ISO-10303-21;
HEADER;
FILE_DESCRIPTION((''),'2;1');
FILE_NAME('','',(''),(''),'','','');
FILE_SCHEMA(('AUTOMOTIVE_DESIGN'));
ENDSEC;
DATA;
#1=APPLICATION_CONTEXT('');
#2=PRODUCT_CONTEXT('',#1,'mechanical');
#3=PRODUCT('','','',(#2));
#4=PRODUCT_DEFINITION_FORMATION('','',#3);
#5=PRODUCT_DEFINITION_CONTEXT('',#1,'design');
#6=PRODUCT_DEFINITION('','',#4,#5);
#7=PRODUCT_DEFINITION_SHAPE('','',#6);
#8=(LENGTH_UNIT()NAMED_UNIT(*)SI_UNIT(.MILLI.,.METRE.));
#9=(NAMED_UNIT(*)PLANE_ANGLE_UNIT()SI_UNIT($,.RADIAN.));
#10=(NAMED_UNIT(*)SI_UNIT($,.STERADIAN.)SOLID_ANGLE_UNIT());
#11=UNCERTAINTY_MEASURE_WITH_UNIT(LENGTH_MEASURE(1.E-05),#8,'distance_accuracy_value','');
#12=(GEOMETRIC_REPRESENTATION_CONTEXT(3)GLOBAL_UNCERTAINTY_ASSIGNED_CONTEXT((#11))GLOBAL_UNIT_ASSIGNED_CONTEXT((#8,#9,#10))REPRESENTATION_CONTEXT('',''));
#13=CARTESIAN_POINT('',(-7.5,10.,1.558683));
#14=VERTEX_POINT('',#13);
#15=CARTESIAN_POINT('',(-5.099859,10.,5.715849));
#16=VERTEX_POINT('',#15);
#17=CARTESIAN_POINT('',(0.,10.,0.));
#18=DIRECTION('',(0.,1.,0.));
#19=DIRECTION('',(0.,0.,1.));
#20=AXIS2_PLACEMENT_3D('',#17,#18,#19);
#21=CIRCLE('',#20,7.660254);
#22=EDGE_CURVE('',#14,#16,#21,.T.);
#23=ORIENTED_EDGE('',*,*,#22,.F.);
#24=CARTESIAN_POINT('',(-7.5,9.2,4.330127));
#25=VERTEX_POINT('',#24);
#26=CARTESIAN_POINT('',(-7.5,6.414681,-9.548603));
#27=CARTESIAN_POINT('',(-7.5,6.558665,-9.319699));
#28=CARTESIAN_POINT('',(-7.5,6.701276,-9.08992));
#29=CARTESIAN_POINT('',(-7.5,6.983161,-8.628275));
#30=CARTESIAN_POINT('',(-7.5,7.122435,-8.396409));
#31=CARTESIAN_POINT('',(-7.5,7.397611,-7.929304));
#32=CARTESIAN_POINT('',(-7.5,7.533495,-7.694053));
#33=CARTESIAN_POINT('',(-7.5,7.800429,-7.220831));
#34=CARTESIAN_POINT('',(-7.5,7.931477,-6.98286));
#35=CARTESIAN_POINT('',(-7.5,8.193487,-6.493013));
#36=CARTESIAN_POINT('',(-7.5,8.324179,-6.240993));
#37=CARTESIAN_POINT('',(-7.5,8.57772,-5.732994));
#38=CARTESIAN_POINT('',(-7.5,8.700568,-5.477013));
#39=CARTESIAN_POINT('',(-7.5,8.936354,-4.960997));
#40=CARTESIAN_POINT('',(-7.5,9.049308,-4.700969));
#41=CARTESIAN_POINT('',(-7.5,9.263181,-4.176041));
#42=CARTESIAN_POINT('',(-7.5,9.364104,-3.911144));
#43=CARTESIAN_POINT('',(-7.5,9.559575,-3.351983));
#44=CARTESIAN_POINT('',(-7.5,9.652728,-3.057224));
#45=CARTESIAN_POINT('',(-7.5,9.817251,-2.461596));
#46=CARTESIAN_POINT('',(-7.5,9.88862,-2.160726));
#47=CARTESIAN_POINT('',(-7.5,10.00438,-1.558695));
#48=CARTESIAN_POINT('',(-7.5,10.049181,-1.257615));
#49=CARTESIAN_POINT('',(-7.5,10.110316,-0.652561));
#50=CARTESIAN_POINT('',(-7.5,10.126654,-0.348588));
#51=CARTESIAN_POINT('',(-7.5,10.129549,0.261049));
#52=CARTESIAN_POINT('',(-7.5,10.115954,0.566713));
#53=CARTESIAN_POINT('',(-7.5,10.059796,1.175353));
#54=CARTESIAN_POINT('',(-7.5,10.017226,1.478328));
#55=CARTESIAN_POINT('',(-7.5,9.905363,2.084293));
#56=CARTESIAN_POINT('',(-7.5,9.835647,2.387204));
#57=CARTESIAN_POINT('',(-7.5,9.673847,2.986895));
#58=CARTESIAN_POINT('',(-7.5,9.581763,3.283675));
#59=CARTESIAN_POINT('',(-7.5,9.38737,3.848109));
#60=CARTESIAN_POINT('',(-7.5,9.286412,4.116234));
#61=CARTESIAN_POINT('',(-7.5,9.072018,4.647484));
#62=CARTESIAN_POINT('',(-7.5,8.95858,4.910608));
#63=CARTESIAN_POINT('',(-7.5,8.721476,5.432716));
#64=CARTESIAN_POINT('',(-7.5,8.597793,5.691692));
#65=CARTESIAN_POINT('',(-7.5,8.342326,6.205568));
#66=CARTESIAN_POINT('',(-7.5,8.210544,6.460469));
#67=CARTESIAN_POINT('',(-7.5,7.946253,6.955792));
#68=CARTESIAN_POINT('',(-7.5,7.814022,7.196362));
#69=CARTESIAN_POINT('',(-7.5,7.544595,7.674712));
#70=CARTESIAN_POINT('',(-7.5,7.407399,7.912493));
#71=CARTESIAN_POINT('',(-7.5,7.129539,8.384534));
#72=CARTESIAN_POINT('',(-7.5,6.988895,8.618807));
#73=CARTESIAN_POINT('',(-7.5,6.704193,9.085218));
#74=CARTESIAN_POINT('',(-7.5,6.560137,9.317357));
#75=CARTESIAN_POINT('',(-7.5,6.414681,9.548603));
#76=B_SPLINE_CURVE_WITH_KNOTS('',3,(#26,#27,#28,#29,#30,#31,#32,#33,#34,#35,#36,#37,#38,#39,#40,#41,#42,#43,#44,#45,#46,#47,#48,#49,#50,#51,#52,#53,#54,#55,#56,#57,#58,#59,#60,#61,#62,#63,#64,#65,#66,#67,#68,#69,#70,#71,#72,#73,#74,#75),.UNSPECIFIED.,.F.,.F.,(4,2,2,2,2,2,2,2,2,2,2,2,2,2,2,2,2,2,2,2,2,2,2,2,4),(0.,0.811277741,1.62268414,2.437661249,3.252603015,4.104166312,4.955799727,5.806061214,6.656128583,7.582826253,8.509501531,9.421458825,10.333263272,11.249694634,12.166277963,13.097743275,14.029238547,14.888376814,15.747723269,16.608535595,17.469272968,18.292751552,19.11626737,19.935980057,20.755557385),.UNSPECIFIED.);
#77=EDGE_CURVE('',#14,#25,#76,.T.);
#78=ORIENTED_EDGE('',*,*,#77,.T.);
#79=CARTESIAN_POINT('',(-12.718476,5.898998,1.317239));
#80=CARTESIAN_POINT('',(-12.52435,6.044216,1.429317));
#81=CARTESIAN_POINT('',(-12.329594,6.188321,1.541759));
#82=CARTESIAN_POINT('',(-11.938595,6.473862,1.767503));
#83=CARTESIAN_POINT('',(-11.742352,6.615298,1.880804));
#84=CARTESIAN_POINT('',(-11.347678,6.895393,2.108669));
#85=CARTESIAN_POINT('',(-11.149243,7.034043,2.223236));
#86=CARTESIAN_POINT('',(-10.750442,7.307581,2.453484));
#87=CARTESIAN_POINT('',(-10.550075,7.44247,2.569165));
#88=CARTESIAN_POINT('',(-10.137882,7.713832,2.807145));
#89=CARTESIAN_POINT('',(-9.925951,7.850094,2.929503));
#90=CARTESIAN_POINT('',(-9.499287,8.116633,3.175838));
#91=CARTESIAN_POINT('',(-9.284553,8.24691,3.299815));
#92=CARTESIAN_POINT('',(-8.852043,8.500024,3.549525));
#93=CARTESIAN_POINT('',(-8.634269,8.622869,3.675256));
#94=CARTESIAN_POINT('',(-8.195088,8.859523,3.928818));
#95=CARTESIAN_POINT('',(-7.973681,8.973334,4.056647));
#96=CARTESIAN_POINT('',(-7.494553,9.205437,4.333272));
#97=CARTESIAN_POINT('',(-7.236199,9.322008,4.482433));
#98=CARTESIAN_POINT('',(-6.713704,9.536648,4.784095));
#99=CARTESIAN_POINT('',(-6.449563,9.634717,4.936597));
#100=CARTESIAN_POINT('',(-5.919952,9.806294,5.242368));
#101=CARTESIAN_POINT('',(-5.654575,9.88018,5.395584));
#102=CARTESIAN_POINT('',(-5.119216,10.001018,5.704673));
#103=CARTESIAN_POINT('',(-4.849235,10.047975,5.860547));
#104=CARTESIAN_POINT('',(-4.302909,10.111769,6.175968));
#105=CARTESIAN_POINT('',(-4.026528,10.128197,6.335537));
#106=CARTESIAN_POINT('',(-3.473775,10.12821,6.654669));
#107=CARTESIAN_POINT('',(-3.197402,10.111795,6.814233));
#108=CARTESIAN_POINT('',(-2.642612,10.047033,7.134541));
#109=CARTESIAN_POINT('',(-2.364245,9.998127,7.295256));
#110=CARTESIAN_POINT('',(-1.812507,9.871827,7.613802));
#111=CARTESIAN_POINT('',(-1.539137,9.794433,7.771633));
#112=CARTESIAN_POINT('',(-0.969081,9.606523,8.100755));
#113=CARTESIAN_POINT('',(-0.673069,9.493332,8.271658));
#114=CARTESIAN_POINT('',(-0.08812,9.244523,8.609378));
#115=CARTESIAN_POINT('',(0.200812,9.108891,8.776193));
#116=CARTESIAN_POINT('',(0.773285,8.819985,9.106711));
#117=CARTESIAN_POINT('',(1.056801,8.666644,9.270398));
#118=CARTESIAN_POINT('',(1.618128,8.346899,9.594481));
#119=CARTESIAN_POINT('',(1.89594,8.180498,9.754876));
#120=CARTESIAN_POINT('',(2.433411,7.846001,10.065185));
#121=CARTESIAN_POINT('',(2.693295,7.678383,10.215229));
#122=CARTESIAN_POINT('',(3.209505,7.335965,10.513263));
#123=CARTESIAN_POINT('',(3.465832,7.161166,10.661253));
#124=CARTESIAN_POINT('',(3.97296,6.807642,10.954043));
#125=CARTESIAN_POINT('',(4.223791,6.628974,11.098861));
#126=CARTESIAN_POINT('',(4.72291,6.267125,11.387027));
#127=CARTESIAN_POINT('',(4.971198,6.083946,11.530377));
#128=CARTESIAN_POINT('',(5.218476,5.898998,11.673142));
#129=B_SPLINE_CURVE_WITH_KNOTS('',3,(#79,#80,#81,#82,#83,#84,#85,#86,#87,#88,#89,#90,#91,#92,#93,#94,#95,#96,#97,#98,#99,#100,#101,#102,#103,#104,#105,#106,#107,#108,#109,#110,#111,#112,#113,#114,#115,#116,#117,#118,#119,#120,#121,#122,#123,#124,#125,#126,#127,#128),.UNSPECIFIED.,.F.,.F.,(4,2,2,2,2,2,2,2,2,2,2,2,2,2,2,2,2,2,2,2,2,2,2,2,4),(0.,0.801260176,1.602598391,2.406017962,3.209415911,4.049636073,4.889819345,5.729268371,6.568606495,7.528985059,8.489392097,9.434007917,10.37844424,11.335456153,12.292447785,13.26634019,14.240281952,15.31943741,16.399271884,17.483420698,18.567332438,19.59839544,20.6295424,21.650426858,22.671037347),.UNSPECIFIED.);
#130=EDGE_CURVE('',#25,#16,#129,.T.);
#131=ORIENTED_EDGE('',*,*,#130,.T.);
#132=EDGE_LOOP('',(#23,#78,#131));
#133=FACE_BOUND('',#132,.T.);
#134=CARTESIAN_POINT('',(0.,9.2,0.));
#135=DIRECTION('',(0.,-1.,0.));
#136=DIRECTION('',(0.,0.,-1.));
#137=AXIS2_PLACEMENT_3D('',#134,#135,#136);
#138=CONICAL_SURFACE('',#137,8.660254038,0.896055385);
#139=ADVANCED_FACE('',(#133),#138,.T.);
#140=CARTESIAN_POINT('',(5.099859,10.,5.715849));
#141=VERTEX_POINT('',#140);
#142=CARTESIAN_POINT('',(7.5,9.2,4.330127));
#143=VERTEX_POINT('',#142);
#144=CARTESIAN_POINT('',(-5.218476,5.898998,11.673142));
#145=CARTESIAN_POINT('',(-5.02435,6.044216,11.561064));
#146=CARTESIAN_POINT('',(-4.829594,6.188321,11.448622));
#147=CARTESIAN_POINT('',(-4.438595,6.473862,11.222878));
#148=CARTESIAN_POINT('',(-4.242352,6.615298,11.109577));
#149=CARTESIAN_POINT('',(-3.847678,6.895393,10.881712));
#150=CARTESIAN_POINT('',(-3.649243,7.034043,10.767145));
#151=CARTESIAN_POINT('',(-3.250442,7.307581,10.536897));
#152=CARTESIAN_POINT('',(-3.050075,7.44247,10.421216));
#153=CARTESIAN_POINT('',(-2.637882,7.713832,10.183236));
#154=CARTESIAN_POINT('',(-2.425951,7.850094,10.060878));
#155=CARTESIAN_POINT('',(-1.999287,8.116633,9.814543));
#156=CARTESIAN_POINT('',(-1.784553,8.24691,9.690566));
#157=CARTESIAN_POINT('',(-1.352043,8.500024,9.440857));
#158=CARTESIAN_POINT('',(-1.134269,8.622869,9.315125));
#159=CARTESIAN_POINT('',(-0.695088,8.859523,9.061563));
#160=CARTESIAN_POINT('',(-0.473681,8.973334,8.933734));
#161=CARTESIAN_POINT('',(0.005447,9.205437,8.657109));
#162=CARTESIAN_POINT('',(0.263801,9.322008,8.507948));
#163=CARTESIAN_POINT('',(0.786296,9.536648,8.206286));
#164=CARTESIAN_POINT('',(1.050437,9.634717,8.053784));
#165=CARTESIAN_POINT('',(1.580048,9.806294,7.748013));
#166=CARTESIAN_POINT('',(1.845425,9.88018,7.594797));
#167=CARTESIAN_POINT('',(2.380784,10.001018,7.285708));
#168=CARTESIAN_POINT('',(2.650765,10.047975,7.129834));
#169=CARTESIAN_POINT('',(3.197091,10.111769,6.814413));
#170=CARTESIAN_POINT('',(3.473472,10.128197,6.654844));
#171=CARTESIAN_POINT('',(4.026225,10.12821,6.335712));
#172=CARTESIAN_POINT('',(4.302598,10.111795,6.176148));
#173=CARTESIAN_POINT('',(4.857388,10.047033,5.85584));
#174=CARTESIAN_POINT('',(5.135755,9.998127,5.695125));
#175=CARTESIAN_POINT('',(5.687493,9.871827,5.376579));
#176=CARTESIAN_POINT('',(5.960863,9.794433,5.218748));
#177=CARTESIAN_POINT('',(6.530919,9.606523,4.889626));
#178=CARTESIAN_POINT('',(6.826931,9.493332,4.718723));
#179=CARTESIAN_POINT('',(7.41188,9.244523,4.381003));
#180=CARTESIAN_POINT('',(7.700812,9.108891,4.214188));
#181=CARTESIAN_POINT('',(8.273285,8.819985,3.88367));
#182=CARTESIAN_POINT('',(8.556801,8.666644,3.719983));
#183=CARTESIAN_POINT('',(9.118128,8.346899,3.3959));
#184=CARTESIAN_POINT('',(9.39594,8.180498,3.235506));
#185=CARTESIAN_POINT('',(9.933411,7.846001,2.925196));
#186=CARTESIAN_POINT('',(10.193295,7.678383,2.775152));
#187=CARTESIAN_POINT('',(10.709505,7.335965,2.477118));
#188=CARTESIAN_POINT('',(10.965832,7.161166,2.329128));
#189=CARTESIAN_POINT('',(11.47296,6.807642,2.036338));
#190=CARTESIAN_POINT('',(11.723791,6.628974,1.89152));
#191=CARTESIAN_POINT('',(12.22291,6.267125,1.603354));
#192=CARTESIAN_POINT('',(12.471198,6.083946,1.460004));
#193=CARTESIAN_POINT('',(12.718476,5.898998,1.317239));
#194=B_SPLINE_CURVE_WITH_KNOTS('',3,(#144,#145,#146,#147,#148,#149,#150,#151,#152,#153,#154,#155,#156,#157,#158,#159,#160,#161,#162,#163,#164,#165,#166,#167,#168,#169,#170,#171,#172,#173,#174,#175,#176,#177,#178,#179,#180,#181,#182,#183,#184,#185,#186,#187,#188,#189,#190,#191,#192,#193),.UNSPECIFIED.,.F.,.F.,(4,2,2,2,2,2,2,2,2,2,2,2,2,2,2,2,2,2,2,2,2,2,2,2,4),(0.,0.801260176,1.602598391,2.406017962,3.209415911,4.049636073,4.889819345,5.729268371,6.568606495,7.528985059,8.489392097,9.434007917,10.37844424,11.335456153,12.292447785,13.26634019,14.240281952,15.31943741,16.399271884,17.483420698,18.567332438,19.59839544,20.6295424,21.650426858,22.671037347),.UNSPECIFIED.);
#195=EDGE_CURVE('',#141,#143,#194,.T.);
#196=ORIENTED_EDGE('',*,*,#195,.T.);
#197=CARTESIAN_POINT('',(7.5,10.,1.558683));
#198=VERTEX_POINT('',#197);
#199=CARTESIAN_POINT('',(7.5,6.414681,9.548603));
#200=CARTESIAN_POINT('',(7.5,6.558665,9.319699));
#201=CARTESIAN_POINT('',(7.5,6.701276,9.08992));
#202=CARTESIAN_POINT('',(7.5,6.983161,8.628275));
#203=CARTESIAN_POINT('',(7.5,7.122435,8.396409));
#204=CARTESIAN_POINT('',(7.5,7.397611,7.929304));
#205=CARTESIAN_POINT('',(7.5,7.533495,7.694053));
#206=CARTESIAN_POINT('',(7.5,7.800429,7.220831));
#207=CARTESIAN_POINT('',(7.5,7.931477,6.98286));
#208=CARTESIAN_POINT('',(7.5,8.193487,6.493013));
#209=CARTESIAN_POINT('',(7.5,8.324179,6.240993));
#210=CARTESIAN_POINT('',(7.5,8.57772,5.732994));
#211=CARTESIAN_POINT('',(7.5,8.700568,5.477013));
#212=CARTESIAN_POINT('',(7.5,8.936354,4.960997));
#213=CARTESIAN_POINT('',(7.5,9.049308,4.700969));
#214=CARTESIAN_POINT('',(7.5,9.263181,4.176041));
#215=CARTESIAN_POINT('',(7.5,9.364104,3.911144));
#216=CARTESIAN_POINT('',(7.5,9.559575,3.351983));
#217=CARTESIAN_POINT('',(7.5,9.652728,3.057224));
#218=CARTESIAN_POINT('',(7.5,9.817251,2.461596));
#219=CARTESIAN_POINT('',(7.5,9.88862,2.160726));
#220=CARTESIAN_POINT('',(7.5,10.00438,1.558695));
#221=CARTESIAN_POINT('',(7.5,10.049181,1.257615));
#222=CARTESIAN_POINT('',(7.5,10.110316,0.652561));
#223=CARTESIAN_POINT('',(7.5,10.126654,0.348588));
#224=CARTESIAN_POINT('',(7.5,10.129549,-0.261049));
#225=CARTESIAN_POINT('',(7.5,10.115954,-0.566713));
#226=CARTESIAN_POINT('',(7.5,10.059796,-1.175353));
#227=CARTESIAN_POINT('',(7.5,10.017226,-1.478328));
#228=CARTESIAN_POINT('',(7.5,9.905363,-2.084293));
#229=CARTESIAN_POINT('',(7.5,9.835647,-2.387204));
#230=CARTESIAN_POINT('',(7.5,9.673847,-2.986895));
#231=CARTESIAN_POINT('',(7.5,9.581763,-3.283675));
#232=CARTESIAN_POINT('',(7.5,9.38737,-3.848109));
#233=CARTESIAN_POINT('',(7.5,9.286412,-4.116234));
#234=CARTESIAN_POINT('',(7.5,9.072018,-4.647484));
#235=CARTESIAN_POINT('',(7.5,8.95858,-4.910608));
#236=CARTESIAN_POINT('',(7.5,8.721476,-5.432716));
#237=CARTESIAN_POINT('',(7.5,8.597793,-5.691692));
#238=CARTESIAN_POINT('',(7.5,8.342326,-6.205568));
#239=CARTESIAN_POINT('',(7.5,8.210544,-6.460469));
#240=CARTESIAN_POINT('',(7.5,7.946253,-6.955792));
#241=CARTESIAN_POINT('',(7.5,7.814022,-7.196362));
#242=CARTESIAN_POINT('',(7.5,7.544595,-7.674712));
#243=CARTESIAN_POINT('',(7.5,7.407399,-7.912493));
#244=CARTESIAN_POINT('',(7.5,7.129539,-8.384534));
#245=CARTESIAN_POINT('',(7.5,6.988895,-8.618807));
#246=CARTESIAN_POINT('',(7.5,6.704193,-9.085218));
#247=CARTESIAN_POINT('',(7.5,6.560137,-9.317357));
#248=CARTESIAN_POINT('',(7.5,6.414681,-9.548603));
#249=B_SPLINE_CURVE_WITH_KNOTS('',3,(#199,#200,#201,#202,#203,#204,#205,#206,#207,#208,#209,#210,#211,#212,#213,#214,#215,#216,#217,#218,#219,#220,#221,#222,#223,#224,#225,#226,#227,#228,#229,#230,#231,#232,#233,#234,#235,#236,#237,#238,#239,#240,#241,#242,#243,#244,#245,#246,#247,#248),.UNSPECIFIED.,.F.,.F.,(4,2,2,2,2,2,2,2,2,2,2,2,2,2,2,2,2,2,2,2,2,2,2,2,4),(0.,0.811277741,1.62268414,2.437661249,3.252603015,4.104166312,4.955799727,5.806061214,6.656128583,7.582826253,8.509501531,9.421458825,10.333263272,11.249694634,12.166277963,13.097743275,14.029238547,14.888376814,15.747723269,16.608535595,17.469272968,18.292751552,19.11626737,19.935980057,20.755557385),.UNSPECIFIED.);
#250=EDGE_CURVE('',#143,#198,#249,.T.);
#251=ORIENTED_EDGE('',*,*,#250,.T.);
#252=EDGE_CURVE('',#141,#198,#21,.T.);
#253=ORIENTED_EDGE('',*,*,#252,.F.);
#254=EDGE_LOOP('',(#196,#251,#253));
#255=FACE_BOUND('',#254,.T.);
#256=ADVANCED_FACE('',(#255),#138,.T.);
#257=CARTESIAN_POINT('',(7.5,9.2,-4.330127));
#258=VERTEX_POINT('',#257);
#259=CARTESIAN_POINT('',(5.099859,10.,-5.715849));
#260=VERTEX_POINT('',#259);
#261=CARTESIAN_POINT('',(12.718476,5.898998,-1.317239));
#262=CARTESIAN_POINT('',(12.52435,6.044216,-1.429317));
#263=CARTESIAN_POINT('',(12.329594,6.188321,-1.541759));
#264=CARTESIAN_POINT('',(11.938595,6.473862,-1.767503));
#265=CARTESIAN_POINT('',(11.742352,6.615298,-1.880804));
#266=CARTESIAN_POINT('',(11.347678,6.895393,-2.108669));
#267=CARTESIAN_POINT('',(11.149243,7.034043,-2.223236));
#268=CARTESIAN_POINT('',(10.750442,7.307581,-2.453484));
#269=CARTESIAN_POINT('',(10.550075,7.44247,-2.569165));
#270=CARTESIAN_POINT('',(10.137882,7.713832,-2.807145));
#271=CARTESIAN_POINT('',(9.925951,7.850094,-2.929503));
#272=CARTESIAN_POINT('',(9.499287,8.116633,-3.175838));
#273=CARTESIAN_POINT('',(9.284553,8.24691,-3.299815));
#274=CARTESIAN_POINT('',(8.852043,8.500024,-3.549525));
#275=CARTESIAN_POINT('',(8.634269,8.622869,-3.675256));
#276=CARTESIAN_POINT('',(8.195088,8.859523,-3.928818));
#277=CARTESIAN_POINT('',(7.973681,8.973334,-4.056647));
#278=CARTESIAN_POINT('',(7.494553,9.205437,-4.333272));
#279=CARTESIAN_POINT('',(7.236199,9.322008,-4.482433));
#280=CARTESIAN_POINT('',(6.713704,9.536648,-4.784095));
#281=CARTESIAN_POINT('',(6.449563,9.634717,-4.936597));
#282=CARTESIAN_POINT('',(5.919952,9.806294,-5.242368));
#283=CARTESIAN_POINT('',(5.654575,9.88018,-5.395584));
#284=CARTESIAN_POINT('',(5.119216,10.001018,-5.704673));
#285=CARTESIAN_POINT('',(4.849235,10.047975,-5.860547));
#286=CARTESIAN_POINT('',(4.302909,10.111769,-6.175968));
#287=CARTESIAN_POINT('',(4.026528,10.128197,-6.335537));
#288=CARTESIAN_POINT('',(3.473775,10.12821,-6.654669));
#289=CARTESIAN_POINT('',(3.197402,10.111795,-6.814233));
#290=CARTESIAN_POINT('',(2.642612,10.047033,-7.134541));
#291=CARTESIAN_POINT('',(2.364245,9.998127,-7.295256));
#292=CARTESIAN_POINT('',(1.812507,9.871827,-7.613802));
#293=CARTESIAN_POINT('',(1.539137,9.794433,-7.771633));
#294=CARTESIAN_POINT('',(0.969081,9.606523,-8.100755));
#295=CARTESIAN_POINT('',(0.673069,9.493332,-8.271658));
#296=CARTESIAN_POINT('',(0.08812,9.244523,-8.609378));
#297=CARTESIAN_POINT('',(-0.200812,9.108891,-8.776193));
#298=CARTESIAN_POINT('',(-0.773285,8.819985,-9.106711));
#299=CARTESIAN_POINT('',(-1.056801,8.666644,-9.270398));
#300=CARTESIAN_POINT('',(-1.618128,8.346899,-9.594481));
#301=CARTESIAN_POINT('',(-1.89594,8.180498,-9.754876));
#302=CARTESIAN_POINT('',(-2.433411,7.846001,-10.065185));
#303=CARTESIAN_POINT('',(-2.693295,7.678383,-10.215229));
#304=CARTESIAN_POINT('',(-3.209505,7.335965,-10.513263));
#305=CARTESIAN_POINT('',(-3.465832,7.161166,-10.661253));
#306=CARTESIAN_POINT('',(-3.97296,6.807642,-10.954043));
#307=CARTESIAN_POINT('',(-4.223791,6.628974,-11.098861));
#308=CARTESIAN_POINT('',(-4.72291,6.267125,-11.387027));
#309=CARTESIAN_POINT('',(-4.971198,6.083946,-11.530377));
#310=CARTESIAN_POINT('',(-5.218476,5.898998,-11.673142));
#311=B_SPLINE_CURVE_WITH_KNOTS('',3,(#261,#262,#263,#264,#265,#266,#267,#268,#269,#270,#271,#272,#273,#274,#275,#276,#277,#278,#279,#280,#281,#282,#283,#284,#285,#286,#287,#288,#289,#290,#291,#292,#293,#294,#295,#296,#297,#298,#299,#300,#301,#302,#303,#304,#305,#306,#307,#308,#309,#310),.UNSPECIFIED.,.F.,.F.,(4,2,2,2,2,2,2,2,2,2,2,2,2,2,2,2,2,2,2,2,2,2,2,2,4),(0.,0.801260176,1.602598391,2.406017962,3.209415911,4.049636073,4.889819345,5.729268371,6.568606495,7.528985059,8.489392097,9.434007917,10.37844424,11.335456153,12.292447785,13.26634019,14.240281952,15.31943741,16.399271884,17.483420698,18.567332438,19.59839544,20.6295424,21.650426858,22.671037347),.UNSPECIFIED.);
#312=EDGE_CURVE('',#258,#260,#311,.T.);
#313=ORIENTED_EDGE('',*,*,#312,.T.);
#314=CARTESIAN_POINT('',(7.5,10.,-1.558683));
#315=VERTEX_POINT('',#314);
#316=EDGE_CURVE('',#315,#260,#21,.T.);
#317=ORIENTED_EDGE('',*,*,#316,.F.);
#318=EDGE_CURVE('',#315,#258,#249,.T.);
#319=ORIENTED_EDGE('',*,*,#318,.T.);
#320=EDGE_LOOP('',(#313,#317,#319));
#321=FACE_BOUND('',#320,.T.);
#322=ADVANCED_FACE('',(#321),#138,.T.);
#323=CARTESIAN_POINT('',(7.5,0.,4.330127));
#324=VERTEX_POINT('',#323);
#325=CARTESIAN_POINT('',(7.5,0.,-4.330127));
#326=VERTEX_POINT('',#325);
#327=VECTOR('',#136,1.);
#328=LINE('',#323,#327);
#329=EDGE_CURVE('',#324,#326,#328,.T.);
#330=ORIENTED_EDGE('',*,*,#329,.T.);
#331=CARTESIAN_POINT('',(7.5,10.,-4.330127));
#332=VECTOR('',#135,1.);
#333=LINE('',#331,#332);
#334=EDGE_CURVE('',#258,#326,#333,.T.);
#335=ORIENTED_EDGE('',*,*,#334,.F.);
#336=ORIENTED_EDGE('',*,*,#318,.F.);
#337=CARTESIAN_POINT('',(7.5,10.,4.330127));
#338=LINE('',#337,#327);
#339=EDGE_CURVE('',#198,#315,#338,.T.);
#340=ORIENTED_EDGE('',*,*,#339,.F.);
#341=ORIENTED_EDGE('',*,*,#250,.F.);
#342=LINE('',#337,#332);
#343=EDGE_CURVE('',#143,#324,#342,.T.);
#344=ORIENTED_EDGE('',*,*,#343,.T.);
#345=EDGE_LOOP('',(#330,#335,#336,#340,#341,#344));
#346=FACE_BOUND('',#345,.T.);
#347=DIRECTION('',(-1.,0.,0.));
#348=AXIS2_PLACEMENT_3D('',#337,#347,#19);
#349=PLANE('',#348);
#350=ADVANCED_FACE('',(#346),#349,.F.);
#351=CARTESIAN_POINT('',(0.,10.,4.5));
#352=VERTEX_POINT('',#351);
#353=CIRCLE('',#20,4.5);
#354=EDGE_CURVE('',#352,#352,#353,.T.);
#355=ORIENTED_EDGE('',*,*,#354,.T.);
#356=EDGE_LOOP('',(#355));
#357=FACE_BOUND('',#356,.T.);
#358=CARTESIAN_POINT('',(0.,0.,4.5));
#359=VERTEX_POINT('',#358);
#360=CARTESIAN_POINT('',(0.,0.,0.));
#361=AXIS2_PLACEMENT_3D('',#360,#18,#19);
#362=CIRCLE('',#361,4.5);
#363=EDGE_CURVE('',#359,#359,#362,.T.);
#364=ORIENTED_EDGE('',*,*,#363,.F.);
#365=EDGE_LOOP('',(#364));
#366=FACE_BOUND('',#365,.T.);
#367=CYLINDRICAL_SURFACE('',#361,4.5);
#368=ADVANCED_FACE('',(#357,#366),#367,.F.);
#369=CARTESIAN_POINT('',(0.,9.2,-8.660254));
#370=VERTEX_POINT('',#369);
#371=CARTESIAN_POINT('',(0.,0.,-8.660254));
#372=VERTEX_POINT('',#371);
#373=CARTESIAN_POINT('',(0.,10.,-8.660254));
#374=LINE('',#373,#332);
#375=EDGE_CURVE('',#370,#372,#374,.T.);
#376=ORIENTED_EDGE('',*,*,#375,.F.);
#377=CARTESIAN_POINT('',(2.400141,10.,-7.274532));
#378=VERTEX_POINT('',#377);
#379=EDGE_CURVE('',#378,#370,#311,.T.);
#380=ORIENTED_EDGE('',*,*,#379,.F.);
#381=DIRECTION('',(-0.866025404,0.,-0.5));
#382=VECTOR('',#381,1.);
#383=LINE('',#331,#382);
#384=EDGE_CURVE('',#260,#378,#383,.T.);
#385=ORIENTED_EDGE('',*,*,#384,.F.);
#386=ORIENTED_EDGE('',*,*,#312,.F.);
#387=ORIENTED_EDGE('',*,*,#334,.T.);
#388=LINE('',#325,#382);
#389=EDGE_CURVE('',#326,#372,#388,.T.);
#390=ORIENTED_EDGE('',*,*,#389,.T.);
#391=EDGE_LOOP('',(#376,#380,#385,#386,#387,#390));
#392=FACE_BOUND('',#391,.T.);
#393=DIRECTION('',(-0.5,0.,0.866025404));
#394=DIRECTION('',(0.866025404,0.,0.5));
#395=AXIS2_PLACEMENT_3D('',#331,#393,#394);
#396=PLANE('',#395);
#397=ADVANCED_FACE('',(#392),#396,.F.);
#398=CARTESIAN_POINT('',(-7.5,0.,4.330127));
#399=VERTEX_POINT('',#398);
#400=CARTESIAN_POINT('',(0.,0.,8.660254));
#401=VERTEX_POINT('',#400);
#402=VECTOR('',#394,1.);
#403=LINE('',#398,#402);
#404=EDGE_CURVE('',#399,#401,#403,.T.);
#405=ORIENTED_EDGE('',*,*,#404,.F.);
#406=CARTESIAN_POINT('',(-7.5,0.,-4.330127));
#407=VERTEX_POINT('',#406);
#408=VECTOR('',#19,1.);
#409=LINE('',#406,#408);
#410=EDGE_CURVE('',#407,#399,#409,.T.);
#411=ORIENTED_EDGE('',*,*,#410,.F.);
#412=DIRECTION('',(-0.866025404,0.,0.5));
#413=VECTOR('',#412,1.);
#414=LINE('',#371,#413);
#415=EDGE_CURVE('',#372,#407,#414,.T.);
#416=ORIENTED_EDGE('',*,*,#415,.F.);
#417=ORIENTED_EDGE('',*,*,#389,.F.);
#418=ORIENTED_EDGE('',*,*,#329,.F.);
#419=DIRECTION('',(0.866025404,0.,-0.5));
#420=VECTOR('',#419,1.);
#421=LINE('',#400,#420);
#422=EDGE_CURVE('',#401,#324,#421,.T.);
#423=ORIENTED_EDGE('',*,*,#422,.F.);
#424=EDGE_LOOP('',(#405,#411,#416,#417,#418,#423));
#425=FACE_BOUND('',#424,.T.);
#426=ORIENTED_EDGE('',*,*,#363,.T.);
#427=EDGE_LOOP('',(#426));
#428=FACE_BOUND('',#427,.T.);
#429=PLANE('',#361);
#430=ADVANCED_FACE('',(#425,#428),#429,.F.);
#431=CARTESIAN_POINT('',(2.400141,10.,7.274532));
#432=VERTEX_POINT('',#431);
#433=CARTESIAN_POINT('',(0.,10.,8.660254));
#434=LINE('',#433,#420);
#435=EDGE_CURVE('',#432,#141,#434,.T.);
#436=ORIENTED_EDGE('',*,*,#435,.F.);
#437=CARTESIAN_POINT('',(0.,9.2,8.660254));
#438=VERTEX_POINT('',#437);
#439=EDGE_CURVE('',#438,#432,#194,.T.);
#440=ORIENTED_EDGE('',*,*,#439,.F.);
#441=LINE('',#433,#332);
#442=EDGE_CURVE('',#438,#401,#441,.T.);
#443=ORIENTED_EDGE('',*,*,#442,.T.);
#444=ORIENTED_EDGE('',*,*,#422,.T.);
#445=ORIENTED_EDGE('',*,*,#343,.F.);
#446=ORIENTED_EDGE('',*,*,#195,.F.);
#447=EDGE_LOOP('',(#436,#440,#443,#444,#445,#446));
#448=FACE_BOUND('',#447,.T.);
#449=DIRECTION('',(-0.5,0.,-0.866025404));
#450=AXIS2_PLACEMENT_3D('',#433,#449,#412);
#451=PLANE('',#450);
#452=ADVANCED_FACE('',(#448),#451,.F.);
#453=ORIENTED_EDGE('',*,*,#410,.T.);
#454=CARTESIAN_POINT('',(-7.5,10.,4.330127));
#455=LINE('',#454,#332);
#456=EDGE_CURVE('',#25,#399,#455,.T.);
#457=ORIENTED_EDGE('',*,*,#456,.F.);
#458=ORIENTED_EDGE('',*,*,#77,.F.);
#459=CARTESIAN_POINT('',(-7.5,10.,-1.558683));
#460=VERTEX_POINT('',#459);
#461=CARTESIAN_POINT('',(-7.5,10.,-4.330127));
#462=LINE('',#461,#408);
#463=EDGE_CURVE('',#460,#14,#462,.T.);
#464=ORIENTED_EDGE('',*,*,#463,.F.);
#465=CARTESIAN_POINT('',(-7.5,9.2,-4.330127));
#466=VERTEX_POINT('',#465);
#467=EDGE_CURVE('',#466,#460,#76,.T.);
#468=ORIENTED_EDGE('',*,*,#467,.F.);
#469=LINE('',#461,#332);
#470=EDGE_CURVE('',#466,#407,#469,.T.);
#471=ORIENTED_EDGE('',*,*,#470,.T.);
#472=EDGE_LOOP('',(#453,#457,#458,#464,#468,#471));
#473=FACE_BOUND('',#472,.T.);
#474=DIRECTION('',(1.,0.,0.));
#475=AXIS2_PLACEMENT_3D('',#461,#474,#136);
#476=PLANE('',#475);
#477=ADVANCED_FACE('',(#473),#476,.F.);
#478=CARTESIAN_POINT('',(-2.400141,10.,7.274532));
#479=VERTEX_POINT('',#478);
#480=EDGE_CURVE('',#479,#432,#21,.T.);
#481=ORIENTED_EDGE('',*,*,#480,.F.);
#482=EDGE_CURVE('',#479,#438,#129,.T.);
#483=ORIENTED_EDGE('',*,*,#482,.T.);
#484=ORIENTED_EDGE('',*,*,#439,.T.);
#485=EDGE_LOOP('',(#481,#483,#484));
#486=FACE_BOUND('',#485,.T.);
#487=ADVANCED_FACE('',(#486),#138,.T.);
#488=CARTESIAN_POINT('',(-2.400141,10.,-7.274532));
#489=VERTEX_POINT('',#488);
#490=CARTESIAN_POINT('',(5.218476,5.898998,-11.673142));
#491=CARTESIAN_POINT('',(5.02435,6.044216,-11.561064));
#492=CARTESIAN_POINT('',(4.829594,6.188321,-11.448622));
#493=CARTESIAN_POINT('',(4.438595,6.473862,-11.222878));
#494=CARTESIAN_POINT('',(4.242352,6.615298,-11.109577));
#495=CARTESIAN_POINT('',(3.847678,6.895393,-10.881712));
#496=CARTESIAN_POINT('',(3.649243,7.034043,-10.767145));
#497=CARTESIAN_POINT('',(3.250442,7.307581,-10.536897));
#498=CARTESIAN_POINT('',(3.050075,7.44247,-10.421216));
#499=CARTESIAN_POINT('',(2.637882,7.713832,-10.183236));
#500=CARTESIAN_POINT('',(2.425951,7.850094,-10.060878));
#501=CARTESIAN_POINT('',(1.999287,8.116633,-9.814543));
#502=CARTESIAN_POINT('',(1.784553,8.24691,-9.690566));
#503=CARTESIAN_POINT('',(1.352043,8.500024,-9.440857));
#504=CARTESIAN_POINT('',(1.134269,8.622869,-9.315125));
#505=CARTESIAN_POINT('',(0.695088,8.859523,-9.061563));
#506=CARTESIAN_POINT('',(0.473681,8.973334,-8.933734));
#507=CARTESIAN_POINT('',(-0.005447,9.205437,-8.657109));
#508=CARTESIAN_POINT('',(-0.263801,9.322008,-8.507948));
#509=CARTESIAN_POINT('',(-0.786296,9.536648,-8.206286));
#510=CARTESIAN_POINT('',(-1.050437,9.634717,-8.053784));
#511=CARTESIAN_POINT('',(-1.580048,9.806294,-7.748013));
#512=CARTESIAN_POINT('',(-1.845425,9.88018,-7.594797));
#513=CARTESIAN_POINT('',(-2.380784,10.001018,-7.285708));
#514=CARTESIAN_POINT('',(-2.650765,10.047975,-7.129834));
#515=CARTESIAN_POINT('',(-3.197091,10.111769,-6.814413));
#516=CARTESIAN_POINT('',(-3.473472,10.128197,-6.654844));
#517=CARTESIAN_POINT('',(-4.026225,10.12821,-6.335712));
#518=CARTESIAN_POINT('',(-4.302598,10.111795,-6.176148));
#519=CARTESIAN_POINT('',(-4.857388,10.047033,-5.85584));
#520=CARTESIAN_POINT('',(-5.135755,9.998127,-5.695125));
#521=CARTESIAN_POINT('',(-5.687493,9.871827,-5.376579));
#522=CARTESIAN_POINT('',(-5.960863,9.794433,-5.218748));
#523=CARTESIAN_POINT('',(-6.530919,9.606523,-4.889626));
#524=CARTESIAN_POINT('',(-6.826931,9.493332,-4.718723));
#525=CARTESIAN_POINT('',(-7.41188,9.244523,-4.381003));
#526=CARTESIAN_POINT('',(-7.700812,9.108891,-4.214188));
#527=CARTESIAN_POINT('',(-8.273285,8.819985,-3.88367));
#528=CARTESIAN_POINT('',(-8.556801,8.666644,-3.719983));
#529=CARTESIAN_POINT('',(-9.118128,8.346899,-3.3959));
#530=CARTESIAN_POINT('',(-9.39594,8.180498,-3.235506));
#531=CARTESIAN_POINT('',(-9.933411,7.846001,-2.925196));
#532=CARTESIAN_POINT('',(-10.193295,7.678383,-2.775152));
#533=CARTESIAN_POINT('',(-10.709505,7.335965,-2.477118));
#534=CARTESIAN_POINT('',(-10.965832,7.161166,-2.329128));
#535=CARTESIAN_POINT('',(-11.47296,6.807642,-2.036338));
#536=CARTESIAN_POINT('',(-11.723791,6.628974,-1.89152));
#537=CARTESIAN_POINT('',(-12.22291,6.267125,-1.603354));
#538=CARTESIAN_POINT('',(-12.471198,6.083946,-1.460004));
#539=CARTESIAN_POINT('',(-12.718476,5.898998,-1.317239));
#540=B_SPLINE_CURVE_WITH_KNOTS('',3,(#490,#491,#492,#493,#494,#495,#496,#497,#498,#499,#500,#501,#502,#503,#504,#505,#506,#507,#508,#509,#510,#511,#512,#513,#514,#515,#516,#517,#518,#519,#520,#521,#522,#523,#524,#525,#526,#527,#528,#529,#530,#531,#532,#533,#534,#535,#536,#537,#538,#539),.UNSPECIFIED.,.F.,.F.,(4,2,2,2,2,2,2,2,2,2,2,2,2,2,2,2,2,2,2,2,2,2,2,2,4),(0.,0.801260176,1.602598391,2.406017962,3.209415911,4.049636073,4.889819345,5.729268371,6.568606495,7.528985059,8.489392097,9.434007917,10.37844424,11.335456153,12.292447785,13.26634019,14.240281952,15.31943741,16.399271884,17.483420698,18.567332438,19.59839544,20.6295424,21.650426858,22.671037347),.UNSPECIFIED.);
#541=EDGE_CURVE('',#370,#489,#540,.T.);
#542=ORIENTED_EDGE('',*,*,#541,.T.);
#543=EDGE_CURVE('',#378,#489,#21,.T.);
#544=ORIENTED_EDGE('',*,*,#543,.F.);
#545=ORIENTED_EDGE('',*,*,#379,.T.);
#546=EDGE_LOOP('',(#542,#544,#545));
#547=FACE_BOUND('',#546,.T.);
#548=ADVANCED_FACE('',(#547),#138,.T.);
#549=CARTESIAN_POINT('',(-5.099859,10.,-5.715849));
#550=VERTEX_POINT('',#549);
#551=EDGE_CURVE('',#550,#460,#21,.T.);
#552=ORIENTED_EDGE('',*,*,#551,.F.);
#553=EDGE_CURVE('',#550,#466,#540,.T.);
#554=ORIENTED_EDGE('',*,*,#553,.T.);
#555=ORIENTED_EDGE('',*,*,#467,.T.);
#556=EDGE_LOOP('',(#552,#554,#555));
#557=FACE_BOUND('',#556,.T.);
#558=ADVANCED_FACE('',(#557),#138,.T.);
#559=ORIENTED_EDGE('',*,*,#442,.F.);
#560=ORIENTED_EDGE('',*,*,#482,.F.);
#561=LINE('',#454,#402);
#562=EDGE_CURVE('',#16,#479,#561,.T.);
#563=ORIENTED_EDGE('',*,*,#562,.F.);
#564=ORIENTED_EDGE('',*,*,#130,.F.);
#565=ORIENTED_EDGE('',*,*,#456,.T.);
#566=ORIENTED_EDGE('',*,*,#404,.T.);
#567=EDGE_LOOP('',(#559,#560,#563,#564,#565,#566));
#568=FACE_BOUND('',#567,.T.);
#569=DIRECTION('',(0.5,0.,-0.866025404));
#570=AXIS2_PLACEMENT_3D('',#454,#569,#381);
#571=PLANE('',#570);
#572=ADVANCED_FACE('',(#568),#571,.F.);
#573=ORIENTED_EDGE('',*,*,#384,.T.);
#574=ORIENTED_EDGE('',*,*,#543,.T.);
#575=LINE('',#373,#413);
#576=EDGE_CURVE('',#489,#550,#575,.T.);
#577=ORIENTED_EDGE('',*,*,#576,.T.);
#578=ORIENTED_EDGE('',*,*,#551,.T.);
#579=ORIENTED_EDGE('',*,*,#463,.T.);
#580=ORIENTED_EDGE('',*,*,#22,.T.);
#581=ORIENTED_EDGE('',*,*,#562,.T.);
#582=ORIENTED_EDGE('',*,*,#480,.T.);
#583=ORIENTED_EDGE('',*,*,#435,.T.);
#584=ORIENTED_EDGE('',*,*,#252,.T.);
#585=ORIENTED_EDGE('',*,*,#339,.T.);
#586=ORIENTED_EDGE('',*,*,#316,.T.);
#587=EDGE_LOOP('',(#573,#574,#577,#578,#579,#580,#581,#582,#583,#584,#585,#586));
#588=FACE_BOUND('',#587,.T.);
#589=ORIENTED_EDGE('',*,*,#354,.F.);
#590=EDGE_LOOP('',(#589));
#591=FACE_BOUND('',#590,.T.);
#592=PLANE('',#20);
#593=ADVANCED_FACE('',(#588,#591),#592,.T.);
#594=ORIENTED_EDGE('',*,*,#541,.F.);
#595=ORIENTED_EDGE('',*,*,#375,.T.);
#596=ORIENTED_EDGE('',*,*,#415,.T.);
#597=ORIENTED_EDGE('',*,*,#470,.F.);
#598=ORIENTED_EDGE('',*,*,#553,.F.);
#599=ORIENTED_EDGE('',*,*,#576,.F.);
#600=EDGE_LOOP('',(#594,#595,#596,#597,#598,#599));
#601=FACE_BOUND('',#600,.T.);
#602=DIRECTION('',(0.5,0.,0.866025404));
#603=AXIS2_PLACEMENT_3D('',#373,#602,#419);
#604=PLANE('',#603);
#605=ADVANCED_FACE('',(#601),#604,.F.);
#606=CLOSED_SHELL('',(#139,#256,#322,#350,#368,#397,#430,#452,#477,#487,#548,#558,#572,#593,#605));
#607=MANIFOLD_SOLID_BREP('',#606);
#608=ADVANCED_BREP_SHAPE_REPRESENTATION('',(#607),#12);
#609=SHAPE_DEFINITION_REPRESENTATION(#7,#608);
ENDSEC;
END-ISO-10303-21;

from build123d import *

# Parameters (mm, degrees)
BOSS_EXTRUDE1_DEPTH = 10
SKETCH2_R           = 4.5
CUT_EXTRUDE1_DEPTH  = 10


with BuildPart() as part:
    # Sketch1 → Boss-Extrude1 (new body)
    with BuildSketch(Plane(origin=(0, 0, 0), x_dir=(1, 0, 0), z_dir=(0, 1, 0))):
        Polygon((7.5, 4.330127019), (0, 8.660254038), (-7.5, 4.330127019), (-7.5, -4.330127019), (0, -8.660254038), (7.5, -4.330127019), align=None)
    extrude(amount=BOSS_EXTRUDE1_DEPTH)

    # Sketch3 → Cut-Revolve1 (revolve, cut)
    with BuildSketch(Plane(origin=(0, 0, 0), x_dir=(0, 0, -1), z_dir=(1, 0, 0))):
        Polygon((-8.660254038, 10), (-7.660254038, 10), (-8.660254038, 9.2), align=None)
    revolve(axis=Axis((0, 0, 0), (0, 1, 0)), mode=Mode.SUBTRACT)

    # Sketch2 → Cut-Extrude1 (cut)
    with BuildSketch(Plane(origin=(0, 10, 0), x_dir=(1, 0, 0), z_dir=(0, 1, 0))):
        with Locations(Location((0, 0, 0), (0, 0, 270))):
            Circle(SKETCH2_R)
    extrude(amount=-CUT_EXTRUDE1_DEPTH, mode=Mode.SUBTRACT)


solid = part.part
